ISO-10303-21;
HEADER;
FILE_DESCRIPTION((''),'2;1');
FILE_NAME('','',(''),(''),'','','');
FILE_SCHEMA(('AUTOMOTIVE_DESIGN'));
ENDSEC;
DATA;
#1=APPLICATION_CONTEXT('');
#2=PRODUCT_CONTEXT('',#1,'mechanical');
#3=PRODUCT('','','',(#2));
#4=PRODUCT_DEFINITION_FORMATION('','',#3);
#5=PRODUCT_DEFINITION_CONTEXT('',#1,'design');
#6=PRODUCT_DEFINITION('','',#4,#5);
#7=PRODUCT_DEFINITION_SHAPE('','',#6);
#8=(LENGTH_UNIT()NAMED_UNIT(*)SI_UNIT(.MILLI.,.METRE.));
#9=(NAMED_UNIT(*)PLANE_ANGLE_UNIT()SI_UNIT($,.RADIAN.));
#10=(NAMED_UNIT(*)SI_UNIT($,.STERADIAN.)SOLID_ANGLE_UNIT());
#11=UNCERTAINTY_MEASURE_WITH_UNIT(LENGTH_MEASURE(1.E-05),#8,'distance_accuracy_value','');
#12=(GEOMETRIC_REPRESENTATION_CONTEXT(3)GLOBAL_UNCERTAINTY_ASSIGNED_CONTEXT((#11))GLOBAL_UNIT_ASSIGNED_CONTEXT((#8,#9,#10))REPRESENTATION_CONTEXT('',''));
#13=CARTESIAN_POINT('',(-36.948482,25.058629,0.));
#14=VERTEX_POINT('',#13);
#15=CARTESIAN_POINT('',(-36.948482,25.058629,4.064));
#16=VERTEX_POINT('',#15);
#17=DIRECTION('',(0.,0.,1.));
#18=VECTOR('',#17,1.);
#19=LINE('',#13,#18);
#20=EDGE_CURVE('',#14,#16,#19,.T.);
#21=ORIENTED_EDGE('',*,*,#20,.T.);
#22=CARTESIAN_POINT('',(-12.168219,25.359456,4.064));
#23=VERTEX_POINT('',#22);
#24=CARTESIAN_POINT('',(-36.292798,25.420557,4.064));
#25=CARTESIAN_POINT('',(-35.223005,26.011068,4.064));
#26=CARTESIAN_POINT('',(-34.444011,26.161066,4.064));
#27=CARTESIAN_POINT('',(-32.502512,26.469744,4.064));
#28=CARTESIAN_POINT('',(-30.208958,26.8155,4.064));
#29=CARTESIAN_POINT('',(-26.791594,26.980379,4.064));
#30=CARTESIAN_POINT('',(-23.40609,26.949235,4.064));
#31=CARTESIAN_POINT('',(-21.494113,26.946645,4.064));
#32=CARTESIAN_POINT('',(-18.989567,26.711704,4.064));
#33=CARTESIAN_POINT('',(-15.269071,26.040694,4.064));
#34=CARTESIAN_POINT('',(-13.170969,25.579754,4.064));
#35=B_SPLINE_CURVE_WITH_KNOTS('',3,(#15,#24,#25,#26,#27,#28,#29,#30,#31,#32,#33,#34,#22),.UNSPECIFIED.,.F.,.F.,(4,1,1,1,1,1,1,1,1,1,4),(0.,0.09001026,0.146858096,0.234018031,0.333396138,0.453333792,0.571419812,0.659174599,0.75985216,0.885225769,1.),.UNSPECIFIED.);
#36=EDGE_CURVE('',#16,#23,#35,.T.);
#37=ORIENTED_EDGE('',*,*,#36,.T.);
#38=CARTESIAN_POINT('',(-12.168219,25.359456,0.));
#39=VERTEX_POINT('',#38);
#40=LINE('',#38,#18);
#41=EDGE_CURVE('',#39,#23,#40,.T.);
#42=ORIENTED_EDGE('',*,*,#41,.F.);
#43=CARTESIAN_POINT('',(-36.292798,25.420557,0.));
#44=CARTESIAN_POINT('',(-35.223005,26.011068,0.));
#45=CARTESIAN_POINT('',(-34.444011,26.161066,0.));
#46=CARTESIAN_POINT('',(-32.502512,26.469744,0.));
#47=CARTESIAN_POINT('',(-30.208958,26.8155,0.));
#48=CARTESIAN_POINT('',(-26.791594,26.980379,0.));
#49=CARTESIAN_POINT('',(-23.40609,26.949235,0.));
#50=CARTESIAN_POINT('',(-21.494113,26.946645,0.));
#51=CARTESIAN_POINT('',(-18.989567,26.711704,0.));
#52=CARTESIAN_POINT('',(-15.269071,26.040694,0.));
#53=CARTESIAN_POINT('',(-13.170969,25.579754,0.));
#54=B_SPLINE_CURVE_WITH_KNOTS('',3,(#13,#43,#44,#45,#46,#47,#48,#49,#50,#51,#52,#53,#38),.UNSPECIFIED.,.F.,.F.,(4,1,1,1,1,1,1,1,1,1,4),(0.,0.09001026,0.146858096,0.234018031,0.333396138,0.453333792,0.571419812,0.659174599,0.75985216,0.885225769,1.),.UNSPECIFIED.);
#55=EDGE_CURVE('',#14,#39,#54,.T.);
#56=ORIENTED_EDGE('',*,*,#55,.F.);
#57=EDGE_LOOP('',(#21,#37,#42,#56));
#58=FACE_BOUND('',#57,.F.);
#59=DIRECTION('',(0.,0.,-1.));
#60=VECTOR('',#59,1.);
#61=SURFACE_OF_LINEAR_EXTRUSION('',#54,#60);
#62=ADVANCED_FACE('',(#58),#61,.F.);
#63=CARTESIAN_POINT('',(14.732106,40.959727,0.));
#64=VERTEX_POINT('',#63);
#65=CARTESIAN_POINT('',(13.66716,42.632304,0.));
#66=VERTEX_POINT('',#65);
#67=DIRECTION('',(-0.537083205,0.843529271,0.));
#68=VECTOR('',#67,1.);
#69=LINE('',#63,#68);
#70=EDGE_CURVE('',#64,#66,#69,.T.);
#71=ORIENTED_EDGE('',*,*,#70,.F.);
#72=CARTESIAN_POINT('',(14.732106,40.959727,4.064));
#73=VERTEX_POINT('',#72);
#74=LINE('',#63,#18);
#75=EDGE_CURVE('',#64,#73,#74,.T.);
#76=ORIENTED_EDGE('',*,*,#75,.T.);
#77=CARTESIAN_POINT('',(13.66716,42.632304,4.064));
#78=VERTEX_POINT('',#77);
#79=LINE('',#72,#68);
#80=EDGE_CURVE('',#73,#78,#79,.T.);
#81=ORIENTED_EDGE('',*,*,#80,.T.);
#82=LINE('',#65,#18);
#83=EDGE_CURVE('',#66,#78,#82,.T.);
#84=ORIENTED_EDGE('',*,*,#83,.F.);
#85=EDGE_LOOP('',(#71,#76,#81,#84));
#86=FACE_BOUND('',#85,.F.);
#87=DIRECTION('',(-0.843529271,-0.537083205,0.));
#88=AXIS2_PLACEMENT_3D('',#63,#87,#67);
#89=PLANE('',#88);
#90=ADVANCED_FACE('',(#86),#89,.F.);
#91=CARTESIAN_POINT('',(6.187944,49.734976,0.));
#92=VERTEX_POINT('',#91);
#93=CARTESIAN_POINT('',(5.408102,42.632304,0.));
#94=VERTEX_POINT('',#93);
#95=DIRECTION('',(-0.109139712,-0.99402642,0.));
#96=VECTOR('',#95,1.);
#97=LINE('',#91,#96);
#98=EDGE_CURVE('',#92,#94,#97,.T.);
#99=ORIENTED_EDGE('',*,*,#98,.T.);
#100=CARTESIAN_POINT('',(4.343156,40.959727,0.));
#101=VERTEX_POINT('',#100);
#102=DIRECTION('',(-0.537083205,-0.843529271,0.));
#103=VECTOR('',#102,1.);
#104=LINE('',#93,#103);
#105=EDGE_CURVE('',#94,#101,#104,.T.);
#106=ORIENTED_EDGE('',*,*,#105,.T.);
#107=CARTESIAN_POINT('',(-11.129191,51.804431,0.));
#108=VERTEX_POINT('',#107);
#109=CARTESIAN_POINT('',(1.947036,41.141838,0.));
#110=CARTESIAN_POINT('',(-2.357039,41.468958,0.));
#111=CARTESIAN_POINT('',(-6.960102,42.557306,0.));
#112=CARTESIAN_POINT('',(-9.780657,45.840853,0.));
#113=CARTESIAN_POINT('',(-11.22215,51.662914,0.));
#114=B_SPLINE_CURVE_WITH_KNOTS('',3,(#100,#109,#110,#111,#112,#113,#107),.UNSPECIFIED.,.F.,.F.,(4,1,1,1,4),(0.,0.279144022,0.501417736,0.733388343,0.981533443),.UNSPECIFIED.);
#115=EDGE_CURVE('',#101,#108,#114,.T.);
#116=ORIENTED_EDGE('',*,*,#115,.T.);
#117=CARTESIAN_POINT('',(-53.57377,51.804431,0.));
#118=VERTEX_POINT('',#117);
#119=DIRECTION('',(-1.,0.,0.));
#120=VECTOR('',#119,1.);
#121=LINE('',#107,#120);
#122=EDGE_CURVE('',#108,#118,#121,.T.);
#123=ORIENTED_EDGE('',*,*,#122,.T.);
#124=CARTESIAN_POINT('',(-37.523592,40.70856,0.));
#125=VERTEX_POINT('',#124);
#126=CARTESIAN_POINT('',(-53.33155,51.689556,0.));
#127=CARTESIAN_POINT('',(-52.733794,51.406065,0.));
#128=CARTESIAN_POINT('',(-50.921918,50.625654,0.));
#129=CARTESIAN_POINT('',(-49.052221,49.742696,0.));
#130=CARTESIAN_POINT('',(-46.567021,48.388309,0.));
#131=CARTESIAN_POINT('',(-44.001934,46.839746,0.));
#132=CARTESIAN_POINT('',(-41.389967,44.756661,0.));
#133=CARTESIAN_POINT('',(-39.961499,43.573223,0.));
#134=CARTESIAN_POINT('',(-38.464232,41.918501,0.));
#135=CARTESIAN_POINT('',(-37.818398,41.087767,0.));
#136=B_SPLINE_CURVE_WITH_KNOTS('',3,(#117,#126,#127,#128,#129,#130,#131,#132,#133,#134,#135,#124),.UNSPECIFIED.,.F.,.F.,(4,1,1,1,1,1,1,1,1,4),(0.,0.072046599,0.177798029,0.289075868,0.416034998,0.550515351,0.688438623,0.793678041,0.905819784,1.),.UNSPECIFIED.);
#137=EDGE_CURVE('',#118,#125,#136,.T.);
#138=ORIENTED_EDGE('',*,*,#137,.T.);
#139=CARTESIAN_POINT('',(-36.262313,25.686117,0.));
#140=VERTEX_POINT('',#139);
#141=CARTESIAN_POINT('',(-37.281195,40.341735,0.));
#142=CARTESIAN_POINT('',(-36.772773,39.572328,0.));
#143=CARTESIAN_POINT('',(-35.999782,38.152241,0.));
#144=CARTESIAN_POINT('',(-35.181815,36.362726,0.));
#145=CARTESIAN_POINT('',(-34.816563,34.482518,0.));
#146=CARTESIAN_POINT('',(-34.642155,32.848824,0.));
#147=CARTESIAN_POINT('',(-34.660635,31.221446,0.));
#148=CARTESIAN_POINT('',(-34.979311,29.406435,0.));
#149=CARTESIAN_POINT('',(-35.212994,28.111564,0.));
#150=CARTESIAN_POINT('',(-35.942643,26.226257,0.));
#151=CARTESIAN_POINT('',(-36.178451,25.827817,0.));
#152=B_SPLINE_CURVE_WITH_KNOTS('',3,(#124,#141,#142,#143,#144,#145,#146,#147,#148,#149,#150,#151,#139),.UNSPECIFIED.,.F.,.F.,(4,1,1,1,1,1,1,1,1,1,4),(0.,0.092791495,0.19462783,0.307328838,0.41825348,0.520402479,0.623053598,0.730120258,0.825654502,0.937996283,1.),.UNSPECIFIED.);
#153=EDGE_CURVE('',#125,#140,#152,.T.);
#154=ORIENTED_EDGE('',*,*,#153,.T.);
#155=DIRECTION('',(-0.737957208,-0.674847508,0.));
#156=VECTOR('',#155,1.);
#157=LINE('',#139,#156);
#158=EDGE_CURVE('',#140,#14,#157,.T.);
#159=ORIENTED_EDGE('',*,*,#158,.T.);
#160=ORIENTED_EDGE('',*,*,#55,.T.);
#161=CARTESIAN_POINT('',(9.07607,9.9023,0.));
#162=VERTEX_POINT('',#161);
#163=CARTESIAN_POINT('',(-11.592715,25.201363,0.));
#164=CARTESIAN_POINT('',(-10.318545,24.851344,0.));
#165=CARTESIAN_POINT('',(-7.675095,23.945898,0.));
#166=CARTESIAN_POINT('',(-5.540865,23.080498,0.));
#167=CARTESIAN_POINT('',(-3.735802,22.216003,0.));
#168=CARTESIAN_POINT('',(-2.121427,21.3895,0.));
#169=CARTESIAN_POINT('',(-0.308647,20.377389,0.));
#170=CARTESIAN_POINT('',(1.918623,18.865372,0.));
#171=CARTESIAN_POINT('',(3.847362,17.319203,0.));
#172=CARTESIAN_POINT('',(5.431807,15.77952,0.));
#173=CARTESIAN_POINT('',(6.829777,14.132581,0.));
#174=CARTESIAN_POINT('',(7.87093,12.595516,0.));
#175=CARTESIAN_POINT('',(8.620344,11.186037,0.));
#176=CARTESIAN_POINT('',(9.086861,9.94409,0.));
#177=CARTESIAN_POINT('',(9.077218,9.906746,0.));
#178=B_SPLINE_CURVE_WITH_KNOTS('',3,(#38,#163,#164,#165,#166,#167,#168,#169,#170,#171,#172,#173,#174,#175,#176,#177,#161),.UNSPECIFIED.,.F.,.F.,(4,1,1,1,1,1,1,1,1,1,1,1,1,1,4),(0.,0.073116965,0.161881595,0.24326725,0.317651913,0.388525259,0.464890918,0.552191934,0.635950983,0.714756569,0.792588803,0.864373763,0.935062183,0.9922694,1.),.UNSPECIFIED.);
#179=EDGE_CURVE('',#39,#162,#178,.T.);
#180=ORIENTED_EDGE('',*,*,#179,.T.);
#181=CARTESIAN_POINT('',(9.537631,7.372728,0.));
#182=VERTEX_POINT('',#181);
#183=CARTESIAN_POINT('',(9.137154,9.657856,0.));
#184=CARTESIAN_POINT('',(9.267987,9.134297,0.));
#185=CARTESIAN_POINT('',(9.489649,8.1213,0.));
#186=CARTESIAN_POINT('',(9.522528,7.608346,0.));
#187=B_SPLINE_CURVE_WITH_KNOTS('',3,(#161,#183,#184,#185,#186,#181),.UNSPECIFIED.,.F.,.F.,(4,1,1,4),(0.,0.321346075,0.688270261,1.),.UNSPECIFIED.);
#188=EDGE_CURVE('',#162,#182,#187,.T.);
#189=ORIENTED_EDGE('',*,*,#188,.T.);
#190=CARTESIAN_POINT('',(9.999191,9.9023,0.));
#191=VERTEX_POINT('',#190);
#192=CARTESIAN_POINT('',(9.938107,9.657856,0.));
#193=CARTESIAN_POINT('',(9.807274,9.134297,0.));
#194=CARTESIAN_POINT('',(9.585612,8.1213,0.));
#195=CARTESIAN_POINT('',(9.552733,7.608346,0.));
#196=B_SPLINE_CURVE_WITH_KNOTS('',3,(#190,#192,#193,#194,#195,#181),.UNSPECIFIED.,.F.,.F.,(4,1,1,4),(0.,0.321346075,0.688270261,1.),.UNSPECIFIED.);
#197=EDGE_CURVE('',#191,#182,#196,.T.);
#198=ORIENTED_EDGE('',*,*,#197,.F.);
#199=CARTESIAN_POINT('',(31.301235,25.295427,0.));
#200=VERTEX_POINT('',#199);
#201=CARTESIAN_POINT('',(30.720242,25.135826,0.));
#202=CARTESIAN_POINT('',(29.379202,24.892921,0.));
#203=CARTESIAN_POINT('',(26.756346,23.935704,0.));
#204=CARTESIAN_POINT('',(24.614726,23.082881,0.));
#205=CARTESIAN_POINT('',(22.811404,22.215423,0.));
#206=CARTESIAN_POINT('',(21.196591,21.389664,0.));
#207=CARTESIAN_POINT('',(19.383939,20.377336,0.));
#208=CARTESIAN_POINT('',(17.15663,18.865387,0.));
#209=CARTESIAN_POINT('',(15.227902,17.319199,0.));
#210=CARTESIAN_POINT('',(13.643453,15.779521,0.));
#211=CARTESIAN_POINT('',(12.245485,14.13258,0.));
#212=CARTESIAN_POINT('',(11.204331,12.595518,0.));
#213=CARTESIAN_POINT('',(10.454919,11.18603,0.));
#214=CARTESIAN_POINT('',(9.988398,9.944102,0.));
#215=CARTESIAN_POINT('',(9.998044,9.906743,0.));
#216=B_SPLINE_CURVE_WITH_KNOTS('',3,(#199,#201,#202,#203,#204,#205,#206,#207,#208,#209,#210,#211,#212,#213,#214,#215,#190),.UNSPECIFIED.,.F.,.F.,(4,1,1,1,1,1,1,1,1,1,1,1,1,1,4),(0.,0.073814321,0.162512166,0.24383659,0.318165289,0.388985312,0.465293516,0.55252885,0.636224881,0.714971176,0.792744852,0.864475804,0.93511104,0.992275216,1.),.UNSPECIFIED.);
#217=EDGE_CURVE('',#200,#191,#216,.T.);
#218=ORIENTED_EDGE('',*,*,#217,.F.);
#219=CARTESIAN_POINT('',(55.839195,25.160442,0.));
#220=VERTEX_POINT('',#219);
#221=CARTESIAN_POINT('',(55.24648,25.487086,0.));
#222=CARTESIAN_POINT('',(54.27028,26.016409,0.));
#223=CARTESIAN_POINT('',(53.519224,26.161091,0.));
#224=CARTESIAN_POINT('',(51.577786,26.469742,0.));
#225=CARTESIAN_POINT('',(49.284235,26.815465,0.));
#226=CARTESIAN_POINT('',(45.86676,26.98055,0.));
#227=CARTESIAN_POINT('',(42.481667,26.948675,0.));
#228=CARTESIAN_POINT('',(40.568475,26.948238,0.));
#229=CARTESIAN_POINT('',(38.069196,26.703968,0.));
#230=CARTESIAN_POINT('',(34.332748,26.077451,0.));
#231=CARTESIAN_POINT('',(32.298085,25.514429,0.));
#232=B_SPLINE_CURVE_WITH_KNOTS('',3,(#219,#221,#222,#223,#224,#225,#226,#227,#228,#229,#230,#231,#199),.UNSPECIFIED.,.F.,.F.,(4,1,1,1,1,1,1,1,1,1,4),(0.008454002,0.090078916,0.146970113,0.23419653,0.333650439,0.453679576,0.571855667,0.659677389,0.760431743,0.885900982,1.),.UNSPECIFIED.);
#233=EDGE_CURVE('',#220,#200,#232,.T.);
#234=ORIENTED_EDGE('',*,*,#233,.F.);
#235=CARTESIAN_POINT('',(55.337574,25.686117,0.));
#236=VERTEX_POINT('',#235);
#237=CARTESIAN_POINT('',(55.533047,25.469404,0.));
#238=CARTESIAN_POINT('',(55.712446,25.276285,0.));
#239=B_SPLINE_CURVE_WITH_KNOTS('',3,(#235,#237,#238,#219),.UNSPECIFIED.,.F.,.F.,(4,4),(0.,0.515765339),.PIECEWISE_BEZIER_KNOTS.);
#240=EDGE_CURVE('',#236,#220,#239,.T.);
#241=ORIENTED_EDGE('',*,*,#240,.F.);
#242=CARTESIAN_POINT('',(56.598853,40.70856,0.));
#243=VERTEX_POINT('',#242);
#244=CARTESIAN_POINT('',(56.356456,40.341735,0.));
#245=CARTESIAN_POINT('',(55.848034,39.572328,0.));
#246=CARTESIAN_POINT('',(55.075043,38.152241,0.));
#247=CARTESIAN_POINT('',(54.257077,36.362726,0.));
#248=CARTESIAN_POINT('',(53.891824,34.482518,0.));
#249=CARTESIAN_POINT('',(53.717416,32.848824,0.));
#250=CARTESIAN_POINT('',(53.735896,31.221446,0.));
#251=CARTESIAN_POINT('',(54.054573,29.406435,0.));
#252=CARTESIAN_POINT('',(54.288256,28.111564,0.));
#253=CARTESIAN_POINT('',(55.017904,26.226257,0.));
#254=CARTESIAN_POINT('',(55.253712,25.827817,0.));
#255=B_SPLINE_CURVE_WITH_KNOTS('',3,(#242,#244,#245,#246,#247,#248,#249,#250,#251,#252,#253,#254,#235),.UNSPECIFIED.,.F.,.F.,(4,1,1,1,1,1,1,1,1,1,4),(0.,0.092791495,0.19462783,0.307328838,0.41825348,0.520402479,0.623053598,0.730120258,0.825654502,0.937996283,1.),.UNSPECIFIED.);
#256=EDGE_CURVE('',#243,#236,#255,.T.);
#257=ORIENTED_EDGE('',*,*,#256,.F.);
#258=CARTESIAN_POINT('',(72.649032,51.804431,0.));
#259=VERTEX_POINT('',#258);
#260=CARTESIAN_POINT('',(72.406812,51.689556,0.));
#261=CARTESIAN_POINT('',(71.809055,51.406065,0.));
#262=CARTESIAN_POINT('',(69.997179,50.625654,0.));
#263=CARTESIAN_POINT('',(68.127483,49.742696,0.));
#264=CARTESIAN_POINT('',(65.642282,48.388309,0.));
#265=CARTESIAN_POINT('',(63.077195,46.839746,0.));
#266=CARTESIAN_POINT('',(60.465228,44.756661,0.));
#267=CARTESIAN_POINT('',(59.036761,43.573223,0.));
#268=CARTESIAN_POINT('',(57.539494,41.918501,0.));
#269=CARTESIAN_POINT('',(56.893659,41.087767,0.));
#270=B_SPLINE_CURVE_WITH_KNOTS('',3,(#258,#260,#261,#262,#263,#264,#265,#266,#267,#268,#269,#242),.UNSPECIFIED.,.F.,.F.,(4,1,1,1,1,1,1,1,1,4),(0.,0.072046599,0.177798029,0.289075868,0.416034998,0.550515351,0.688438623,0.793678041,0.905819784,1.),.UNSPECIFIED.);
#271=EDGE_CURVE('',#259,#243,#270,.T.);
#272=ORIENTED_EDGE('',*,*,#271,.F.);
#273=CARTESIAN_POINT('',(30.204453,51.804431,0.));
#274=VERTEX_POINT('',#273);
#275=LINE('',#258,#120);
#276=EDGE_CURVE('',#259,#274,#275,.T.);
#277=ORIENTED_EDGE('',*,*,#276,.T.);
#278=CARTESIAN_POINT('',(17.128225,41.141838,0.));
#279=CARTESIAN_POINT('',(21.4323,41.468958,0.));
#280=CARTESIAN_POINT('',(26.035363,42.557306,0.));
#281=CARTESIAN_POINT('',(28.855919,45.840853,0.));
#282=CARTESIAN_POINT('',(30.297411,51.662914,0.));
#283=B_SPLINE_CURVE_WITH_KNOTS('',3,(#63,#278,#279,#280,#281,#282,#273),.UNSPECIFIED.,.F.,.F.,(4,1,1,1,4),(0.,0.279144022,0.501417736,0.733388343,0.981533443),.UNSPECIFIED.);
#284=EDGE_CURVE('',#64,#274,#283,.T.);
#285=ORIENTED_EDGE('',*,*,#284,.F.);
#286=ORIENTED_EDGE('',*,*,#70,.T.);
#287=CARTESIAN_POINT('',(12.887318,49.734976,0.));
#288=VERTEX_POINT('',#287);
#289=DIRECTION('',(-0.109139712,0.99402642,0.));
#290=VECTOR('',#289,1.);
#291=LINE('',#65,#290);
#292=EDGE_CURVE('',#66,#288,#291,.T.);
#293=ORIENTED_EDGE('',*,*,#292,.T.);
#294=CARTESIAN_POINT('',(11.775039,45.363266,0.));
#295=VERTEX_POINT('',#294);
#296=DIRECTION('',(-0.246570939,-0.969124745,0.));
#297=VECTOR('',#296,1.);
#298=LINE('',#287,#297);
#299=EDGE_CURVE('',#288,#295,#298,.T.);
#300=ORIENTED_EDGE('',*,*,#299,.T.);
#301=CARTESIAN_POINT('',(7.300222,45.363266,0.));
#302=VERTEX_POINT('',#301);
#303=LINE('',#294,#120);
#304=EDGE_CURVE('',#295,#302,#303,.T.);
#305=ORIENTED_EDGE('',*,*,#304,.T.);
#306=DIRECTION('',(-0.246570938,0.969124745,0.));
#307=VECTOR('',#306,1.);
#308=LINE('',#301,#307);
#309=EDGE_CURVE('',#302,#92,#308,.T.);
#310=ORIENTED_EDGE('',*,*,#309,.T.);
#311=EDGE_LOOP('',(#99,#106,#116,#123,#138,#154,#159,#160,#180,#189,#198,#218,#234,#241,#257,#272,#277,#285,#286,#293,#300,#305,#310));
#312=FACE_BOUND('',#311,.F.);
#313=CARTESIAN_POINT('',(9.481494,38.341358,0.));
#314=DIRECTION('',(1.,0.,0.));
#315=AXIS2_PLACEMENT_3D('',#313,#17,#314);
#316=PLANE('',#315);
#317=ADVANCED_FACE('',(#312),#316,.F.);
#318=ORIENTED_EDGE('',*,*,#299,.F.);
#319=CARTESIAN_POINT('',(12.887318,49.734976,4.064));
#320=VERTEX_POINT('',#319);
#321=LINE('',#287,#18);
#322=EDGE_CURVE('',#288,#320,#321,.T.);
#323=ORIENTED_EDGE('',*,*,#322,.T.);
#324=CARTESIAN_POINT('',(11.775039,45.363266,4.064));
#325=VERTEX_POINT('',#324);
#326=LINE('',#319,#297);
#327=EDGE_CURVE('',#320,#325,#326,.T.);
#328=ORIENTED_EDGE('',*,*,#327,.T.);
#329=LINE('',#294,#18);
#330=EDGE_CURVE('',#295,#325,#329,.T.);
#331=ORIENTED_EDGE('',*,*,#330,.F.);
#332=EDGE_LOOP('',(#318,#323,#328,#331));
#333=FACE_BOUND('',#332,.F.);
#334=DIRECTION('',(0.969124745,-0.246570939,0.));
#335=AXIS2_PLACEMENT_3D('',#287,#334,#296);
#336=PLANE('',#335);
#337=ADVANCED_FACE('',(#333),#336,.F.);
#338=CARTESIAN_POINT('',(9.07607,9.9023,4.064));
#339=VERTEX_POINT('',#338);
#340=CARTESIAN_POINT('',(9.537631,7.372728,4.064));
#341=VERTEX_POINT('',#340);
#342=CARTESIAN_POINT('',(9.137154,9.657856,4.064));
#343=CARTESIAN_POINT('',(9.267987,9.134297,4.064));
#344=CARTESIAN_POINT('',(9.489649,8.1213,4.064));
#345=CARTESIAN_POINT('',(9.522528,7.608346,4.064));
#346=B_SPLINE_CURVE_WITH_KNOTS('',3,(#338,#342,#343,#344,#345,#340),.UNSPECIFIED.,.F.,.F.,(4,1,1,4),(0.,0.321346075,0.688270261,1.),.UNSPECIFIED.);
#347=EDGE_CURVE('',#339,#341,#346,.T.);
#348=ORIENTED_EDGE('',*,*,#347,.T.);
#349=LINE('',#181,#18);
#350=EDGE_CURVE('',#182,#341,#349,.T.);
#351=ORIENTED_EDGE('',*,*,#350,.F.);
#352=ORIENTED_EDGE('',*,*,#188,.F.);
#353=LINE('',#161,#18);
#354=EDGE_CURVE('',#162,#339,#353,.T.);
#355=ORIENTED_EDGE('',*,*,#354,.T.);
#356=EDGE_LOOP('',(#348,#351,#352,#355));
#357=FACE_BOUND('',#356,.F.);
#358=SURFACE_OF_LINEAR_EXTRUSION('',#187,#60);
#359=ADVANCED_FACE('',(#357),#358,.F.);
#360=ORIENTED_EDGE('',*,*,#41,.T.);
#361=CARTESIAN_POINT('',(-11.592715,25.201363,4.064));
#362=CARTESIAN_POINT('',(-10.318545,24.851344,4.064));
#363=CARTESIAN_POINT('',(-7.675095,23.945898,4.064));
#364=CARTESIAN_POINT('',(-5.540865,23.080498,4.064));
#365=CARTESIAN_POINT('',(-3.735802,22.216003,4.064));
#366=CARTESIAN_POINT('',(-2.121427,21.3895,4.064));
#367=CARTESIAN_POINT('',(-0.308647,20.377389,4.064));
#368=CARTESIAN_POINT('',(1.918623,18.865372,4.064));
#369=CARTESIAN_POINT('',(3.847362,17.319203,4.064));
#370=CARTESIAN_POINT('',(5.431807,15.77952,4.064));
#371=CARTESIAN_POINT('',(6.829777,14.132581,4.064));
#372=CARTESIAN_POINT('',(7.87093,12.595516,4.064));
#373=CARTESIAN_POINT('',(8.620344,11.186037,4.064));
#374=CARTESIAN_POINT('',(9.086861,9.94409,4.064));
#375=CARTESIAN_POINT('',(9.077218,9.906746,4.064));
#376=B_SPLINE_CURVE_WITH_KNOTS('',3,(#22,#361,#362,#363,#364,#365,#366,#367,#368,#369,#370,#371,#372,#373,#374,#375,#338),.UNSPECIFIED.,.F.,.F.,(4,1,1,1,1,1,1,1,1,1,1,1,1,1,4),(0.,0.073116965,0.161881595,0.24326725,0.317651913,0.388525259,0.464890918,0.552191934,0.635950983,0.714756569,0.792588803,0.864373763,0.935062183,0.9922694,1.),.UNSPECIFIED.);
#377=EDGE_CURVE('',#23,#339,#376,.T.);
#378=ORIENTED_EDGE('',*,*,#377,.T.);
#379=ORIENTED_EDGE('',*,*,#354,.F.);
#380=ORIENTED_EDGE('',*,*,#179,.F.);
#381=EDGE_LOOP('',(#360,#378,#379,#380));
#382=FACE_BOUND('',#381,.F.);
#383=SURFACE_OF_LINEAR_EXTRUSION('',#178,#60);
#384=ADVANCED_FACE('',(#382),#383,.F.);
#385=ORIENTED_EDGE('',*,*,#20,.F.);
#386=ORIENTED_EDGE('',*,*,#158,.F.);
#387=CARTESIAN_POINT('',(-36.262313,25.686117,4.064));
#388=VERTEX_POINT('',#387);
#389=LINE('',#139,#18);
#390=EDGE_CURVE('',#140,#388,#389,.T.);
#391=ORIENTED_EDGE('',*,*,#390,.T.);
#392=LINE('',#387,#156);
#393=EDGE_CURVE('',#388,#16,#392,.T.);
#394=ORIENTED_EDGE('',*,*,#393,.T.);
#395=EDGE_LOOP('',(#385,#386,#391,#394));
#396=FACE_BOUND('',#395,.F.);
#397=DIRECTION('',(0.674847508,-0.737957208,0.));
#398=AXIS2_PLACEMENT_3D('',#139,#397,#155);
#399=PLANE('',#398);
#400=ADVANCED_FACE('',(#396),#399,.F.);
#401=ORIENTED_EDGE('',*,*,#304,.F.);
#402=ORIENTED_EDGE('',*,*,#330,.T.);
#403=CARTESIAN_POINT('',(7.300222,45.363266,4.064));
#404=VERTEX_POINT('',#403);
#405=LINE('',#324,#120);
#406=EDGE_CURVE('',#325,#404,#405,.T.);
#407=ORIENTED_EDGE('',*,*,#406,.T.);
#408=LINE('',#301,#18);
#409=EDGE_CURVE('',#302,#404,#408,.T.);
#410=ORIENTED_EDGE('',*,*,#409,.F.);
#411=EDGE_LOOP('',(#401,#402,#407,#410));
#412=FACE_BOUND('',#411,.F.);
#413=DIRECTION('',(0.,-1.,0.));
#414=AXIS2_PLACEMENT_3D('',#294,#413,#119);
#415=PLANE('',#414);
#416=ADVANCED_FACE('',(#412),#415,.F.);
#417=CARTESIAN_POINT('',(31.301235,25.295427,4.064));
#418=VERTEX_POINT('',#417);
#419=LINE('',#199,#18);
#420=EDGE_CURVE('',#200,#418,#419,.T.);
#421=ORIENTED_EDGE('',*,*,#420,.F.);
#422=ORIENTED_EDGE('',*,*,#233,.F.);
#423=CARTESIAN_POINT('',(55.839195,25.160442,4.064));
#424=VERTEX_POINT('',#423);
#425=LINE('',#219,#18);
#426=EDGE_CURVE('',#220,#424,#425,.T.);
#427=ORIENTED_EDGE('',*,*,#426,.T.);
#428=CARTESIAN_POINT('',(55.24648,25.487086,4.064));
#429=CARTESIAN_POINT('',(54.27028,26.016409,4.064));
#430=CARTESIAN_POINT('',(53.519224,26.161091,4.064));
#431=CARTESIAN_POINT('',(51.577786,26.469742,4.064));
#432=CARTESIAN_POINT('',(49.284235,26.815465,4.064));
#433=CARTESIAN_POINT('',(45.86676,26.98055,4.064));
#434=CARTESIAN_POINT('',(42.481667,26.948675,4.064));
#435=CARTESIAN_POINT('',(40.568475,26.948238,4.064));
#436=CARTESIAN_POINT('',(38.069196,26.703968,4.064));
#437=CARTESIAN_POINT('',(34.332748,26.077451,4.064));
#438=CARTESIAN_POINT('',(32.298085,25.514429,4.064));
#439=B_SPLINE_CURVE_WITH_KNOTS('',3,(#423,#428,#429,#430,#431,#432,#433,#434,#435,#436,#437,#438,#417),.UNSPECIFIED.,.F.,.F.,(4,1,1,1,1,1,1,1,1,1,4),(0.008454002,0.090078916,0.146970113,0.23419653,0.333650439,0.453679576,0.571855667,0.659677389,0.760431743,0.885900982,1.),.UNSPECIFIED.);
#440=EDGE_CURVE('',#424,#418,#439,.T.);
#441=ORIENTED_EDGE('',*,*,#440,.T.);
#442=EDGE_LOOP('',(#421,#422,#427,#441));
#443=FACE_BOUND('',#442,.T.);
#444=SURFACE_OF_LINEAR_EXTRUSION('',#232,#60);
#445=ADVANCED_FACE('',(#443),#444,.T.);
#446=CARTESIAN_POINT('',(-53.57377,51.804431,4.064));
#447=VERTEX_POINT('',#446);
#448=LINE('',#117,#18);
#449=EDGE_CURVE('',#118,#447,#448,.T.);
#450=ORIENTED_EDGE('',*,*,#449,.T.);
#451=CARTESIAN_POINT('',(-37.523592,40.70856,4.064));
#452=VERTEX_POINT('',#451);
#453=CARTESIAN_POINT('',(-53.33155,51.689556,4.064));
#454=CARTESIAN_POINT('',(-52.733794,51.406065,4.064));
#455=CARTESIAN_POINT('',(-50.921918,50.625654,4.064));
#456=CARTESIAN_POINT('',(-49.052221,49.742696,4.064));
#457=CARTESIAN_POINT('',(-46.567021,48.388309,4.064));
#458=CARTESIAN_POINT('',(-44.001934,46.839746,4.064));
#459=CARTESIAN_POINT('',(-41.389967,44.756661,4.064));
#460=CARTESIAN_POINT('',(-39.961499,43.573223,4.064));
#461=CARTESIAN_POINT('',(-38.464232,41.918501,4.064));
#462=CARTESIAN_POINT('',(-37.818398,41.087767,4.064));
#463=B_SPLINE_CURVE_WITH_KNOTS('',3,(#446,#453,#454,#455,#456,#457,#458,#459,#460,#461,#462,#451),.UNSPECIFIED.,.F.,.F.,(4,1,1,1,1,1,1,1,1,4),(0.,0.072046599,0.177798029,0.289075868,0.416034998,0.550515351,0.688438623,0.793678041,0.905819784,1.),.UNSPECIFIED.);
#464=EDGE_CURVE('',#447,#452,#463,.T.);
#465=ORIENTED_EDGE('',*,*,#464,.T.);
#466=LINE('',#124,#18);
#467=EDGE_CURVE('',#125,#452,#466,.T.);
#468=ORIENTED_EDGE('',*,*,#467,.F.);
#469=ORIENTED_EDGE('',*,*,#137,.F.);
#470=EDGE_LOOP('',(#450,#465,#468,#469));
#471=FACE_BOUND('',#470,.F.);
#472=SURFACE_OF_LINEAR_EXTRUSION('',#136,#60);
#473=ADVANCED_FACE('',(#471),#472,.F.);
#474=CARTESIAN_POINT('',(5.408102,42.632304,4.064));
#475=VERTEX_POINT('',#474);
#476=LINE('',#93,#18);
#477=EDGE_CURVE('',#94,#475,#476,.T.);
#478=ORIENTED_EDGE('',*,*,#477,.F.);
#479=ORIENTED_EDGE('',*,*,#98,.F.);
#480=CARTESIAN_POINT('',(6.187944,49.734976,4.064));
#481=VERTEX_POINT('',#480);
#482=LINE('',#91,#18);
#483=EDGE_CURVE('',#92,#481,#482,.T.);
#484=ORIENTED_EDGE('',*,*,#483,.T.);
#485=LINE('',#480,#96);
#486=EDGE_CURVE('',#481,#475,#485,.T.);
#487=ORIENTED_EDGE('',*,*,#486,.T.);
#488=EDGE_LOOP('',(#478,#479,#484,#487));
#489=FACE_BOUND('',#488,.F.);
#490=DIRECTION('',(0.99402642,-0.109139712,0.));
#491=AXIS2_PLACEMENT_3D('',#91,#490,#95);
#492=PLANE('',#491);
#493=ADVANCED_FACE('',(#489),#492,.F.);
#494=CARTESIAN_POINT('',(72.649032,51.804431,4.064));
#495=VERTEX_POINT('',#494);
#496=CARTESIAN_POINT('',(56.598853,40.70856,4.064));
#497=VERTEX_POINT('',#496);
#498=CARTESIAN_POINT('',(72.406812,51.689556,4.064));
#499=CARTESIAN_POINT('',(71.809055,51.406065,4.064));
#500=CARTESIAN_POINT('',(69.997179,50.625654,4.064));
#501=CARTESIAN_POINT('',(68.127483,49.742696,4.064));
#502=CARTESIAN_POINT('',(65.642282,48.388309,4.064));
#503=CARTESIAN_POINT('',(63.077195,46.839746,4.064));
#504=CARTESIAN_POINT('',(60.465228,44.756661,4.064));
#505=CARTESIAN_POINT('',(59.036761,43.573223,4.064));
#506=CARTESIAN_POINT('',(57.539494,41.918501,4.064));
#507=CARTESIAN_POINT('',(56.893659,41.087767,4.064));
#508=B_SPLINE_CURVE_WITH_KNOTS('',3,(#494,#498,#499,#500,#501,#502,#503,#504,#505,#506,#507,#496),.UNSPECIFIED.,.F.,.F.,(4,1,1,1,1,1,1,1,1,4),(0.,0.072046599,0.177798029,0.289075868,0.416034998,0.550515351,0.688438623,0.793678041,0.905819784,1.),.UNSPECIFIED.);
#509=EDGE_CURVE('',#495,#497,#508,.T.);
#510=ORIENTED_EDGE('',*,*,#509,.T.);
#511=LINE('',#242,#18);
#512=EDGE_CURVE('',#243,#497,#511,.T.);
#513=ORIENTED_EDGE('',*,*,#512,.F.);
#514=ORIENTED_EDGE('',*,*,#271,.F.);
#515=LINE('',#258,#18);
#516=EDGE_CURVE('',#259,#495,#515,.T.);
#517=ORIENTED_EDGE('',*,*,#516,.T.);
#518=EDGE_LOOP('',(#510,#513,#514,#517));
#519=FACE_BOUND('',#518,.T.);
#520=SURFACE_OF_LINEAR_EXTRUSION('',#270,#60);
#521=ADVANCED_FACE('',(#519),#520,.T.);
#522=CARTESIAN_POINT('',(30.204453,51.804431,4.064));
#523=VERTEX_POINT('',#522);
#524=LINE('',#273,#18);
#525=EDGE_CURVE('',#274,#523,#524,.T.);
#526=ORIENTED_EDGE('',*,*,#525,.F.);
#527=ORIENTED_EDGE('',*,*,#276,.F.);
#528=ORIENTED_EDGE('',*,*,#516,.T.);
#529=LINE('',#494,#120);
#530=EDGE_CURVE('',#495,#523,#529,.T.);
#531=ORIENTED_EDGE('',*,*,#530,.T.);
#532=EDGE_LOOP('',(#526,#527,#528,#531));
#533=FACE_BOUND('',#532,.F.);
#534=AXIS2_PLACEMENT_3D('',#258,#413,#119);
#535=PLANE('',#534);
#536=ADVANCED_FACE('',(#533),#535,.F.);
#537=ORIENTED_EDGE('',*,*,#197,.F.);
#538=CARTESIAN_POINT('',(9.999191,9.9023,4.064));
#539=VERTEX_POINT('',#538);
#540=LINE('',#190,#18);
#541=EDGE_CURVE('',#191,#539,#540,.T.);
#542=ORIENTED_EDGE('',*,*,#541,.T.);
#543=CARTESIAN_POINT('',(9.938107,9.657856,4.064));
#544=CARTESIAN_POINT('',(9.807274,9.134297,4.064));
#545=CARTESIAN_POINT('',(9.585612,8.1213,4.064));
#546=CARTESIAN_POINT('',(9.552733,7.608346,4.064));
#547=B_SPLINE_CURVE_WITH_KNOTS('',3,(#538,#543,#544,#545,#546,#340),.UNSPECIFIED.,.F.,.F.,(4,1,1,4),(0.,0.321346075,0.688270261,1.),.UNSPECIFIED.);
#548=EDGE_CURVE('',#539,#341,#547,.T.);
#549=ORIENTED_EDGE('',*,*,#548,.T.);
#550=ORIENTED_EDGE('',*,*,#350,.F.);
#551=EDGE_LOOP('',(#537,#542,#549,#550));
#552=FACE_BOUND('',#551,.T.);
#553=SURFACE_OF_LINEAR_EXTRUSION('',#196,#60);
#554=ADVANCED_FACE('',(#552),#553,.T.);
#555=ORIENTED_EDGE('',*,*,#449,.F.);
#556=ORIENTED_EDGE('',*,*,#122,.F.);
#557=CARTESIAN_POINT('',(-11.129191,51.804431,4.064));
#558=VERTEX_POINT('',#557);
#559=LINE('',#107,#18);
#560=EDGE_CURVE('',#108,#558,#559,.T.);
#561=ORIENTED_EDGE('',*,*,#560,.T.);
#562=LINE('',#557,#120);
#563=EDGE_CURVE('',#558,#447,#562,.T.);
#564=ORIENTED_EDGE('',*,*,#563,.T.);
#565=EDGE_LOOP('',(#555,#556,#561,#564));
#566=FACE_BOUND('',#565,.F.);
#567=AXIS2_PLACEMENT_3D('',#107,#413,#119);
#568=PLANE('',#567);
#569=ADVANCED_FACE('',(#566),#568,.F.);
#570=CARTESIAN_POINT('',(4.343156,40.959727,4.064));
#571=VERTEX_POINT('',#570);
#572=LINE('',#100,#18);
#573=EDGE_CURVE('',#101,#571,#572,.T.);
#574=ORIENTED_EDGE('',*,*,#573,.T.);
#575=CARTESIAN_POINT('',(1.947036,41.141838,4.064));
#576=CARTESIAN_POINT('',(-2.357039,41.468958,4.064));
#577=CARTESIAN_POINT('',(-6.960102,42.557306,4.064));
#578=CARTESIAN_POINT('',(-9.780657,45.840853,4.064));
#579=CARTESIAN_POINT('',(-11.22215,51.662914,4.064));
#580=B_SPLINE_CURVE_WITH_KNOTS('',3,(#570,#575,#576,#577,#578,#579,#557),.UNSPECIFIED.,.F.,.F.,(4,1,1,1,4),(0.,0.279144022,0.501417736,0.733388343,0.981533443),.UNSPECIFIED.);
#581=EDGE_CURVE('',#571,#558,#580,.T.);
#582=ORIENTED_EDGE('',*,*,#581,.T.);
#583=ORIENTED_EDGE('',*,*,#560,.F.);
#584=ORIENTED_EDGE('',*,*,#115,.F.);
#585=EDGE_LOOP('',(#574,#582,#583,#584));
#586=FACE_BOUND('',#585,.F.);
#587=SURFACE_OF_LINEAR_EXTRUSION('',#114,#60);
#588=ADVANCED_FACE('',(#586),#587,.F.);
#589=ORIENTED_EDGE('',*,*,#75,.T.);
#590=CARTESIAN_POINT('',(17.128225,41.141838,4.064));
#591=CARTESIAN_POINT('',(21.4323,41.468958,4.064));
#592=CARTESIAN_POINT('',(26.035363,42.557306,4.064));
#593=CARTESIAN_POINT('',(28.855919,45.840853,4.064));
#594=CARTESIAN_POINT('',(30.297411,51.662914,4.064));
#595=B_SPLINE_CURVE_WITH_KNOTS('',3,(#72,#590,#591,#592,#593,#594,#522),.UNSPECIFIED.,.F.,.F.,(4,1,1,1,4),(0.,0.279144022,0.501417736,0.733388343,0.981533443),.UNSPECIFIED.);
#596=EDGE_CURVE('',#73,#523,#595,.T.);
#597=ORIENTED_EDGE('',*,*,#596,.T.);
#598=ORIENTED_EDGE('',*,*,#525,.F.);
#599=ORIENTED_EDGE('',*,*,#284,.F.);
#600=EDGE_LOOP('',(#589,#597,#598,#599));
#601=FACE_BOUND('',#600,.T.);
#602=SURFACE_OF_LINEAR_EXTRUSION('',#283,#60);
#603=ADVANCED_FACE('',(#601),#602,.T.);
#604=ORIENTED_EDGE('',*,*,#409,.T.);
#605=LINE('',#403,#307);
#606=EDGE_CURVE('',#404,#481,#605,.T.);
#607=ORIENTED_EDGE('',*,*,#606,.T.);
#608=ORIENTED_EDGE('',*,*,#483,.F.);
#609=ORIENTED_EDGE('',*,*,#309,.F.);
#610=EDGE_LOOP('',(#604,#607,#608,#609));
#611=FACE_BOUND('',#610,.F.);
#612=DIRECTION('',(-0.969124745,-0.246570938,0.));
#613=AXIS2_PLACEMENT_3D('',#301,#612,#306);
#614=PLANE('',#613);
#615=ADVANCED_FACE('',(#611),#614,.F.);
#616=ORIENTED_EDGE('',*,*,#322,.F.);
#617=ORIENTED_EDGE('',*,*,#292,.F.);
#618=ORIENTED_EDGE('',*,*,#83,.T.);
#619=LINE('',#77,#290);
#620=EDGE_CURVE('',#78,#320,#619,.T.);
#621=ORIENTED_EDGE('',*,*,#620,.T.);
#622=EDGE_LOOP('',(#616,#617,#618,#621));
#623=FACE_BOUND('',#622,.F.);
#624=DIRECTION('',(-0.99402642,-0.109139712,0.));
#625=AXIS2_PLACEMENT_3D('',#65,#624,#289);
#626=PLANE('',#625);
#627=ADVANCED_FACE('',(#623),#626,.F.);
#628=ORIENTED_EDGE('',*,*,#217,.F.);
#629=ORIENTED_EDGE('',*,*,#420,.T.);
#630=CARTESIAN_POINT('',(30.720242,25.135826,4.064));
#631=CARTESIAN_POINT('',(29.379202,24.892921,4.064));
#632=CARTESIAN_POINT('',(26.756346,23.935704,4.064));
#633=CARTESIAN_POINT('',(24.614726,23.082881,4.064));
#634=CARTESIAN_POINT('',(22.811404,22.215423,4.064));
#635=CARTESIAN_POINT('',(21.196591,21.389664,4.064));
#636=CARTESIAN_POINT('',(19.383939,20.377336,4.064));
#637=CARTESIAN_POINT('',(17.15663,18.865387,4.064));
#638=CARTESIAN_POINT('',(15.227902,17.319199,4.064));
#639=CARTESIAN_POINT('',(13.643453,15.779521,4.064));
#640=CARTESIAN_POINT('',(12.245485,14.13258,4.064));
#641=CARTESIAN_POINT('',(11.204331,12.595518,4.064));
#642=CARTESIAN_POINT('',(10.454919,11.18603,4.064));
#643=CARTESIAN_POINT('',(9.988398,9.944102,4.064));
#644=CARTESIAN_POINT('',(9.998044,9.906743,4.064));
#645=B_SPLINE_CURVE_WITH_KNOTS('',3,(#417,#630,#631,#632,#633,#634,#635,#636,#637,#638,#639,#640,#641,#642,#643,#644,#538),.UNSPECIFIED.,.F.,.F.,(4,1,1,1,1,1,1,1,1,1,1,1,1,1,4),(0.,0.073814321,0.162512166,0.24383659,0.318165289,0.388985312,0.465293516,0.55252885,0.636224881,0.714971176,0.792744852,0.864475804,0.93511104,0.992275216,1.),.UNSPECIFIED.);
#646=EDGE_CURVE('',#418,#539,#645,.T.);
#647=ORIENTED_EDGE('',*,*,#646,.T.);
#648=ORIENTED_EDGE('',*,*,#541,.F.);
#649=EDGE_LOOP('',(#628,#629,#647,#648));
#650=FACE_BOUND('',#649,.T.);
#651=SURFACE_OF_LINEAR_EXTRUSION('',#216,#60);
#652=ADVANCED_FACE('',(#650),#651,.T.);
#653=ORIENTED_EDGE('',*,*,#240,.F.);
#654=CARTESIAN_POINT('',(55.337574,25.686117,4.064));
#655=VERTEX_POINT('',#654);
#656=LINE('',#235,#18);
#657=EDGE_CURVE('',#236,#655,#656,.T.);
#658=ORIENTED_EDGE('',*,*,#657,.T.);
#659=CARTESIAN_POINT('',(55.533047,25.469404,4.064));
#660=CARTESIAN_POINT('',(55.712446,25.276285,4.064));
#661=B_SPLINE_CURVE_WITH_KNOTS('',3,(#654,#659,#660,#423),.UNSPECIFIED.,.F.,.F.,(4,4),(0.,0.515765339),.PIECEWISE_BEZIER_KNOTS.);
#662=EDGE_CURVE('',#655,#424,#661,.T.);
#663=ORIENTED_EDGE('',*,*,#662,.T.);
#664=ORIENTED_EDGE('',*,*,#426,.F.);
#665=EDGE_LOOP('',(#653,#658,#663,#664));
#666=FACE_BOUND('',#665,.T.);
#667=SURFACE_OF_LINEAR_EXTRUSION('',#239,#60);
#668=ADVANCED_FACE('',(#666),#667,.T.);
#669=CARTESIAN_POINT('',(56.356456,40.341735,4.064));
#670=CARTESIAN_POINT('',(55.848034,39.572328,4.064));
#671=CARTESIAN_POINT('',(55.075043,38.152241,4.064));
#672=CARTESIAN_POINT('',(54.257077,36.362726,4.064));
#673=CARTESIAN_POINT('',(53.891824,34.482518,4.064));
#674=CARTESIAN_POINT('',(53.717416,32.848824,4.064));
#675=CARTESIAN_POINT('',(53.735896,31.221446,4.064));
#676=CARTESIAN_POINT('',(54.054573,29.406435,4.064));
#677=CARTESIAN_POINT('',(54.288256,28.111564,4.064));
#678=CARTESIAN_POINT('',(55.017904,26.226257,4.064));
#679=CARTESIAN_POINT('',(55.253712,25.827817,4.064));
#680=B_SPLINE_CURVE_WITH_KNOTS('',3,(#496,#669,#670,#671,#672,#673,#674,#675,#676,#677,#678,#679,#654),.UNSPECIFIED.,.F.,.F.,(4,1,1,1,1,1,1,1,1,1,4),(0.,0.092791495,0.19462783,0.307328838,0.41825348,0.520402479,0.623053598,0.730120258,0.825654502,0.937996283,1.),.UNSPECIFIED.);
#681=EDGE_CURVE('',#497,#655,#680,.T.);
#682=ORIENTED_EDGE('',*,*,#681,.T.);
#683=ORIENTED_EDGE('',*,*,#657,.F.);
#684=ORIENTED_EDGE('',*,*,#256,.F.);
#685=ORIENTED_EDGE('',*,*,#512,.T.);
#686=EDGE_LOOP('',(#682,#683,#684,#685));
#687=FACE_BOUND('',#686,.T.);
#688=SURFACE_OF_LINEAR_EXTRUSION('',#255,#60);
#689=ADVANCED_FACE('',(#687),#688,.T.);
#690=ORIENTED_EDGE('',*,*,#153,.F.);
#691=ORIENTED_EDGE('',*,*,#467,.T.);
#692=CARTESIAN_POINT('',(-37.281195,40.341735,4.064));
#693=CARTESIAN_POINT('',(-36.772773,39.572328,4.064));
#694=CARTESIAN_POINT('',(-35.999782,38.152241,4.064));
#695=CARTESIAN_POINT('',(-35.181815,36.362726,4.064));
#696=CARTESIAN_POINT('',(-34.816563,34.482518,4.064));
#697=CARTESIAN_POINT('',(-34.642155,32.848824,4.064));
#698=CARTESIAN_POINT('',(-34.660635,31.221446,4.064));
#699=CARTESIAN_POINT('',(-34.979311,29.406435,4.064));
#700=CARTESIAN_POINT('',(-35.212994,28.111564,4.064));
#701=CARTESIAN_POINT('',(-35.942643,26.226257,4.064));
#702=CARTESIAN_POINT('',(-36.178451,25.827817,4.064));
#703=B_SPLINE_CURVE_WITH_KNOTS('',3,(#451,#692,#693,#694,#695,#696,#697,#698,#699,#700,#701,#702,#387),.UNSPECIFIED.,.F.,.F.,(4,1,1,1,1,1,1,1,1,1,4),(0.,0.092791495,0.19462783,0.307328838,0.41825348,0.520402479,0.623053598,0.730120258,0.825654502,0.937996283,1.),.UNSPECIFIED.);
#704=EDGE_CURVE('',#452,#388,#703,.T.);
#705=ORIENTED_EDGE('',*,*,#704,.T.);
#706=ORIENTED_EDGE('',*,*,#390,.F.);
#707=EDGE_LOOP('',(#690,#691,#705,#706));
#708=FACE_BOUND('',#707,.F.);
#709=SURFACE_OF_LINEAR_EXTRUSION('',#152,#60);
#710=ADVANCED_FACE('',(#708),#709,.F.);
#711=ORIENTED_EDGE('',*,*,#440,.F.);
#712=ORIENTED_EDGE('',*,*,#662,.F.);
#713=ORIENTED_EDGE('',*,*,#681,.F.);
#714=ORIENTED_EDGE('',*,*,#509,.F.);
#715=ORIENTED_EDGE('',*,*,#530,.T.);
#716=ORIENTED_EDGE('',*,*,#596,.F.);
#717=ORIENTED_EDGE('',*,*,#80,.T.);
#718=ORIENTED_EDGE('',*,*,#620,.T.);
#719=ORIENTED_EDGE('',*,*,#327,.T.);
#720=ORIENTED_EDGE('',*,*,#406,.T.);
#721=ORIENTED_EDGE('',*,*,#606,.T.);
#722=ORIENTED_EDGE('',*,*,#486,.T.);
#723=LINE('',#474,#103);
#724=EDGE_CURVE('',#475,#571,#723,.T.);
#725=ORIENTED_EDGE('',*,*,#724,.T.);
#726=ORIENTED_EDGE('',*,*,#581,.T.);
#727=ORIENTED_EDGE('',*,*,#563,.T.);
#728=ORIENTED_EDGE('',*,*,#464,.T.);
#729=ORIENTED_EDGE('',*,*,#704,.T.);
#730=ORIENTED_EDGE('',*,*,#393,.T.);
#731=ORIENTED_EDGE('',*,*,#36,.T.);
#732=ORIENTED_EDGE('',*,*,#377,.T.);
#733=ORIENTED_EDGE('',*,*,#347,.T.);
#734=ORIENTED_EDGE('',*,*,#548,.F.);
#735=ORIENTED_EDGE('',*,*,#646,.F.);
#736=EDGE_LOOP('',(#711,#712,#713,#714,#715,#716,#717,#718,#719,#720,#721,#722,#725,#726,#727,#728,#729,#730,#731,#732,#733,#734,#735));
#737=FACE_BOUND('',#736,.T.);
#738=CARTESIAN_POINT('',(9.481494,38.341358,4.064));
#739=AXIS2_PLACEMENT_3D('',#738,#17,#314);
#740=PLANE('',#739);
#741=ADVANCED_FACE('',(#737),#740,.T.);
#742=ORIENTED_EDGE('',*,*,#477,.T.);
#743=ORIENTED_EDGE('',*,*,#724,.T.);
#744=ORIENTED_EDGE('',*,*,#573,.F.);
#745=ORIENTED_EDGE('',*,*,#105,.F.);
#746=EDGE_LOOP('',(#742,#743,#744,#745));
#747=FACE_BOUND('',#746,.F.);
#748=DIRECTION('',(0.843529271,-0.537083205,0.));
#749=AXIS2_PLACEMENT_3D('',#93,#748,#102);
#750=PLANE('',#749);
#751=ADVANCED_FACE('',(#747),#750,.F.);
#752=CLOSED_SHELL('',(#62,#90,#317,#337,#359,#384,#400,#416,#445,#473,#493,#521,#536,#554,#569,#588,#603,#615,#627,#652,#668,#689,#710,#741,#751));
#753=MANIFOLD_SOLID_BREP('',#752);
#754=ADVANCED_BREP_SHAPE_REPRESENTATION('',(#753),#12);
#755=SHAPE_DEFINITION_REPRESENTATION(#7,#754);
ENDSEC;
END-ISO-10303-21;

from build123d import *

# Parameters (mm, degrees)
F1_DEPTH = 4.064


with BuildPart() as f1:
    # F0 (on Top) → F1 (new body)
    with BuildSketch(Plane.XY):
        with BuildLine():
            Line((13.6671597138, 42.632304132), (12.8873176873, 49.7349761426))
            Line((12.8873176873, 49.7349761426), (11.7750391364, 45.363266021))
            Line((11.7750391364, 45.363266021), (9.6299545839, 45.363266021))
            Line((9.6299545839, 45.363266021), (9.5376307145, 45.363266021))
            Line((9.5376307145, 45.363266021), (9.445306845, 45.363266021))
            Line((9.445306845, 45.363266021), (7.3002222925, 45.363266021))
            Line((7.3002222925, 45.363266021), (6.1879437417, 49.7349761426))
            Line((6.1879437417, 49.7349761426), (5.4081017151, 42.632304132))
            Line((5.4081017151, 42.632304132), (4.3431557715, 40.9597270191))
            add(Edge.make_bspline(
                [(4.3431557715, 40.9597270191), (1.9470362998, 41.1418379201), (-2.357038673, 41.4689580744), (-6.9601017508, 42.5573058945), (-9.7806573386, 45.8408531237), (-11.222149647, 51.6629143973), (-11.1291911453, 51.8044307828)],
                knots=[0, 0, 0, 0, 0.2791440222, 0.5014177355, 0.7333883427, 0.9815334433, 0.9815334433, 0.9815334433, 0.9815334433], degree=3))
            Line((-11.1291911453, 51.8044307828), (-53.5737704486, 51.8044307828))
            add(Edge.make_bspline(
                [(-53.5737704486, 51.8044307828), (-53.331550141, 51.6895557808), (-52.7337940502, 51.4060649668), (-50.9219179894, 50.6256536216), (-49.0522210727, 49.7426960013), (-46.5670205655, 48.3883088566), (-44.0019337549, 46.8397463887), (-41.3899670191, 44.7566613363), (-39.9614993816, 43.5732234586), (-38.4642324185, 41.9185011416), (-37.8183975035, 41.0877673058), (-37.5235918909, 40.7085604966)],
                knots=[0, 0, 0, 0, 0.0720465987, 0.1777980287, 0.2890758676, 0.4160349982, 0.5505153507, 0.6884386234, 0.7936780409, 0.9058197844, 1, 1, 1, 1], degree=3))
            add(Edge.make_bspline(
                [(-37.5235918909, 40.7085604966), (-37.2811948097, 40.3417350246), (-36.7727730223, 39.572327814), (-35.9997815422, 38.1522405248), (-35.1818151491, 36.362725978), (-34.8165629489, 34.4825183921), (-34.6421546924, 32.8488236867), (-34.6606346519, 31.2214463286), (-34.9793113173, 29.4064345295), (-35.2129943023, 28.111564098), (-35.9426425608, 26.2262566595), (-36.1784507702, 25.8278168456), (-36.262312904, 25.6861168891)],
                knots=[0, 0, 0, 0, 0.0927914954, 0.1946278301, 0.3073288384, 0.4182534795, 0.520402479, 0.6230535978, 0.7301202583, 0.8256545016, 0.9379962828, 1, 1, 1, 1], degree=3))
            Line((-36.262312904, 25.6861168891), (-36.9484815747, 25.0586289912))
            add(Edge.make_bspline(
                [(-36.9484815747, 25.0586289912), (-36.2927983345, 25.4205569717), (-35.2230048161, 26.0110680355), (-34.4440105433, 26.1610657915), (-32.5025116368, 26.4697436316), (-30.2089582356, 26.8154999431), (-26.7915939584, 26.9803785335), (-23.4060896846, 26.9492345331), (-21.4941127934, 26.9466449845), (-18.9895672442, 26.7117037325), (-15.2690707432, 26.0406941434), (-13.1709685572, 25.5797541049), (-12.168219313, 25.3594563147)],
                knots=[0, 0, 0, 0, 0.0900102597, 0.1468580962, 0.2340180307, 0.333396138, 0.4533337916, 0.5714198117, 0.6591745985, 0.7598521597, 0.8852257688, 1, 1, 1, 1], degree=3))
            add(Edge.make_bspline(
                [(-12.168219313, 25.3594563147), (-11.5927154739, 25.2013632729), (-10.3185449844, 24.8513439076), (-7.6750947876, 23.9458975941), (-5.5408645813, 23.0804982874), (-3.7358019992, 22.2160027355), (-2.121426525, 21.3894995265), (-0.3086467266, 20.3773885972), (1.9186226291, 18.8653724774), (3.8473616626, 17.3192025529), (5.4318073678, 15.7795195321), (6.8297771435, 14.132580906), (7.8709295154, 12.5955164802), (8.6203443926, 11.1860368327), (9.0868606877, 9.9440901455), (9.0772179693, 9.9067459923), (9.0760700405, 9.9023003131)],
                knots=[0, 0, 0, 0, 0.073116965, 0.1618815945, 0.2432672502, 0.3176519131, 0.3885252589, 0.4648909183, 0.5521919339, 0.6359509825, 0.7147565687, 0.7925888029, 0.8643737633, 0.9350621826, 0.9922694003, 1, 1, 1, 1], degree=3))
            add(Edge.make_bspline(
                [(9.0760700405, 9.9023003131), (9.137154494, 9.657856123), (9.2679873126, 9.1342970084), (9.4896489626, 8.1212998598), (9.5225281441, 7.6083459483), (9.5376307145, 7.3727280833)],
                knots=[0, 0, 0, 0, 0.3213460752, 0.6882702612, 1, 1, 1, 1], degree=3))
            add(Edge.make_bspline(
                [(9.9991913885, 9.9023003131), (9.938106935, 9.657856123), (9.8072741164, 9.1342970084), (9.5856124664, 8.1212998598), (9.5527332849, 7.6083459483), (9.5376307145, 7.3727280833)],
                knots=[0, 0, 0, 0, 0.3213460752, 0.6882702612, 1, 1, 1, 1], degree=3))
            add(Edge.make_bspline(
                [(31.3012346565, 25.2954269687), (30.7202419304, 25.1358261093), (29.379202367, 24.8929209133), (26.7563461994, 23.9357044231), (24.6147259112, 23.08288084), (22.8114042768, 22.2154227122), (21.1965911316, 21.3896642896), (19.3839392402, 20.3773356985), (17.1566303783, 18.8653868158), (15.2279018497, 17.3191989823), (13.6434534859, 15.779520599), (12.2454845603, 14.1325801248), (11.2043313904, 12.5955184335), (10.4549187001, 11.1860304057), (9.9883976023, 9.9441023012), (9.9980443233, 9.9067426475), (9.9991913885, 9.9023003131)],
                knots=[0, 0, 0, 0, 0.0738143205, 0.1625121665, 0.2438365904, 0.3181652888, 0.3889853118, 0.4652935163, 0.5525288496, 0.6362248807, 0.7149711762, 0.7927448521, 0.8644758039, 0.9351110396, 0.9922752165, 1, 1, 1, 1], degree=3))
            add(Edge.make_bspline(
                [(55.8391954986, 25.1604420744), (55.246479862, 25.4870860225), (54.2702798275, 26.0164091642), (53.5192238195, 26.1610914996), (51.5777860665, 26.4697420881), (49.2842349376, 26.8154654043), (45.8667598685, 26.9805498729), (42.4816667945, 26.9486749581), (40.5684752021, 26.9482375341), (38.0691959493, 26.7039679144), (34.3327479962, 26.0774511266), (32.2980847571, 25.5144287536), (31.3012346565, 25.2954269687)],
                knots=[0.008454002, 0.008454002, 0.008454002, 0.008454002, 0.0900789157, 0.1469701134, 0.23419653, 0.3336504387, 0.4536795757, 0.5718556669, 0.6596773895, 0.7604317432, 0.8859009821, 1, 1, 1, 1], degree=3))
            add(Edge.make_bspline(
                [(55.337574333, 25.6861168891), (55.5330474391, 25.4694040439), (55.7124456782, 25.2762853184), (55.8391954986, 25.1604420744)],
                knots=[0, 0, 0, 0, 0.5157653391, 0.5157653391, 0.5157653391, 0.5157653391], degree=3))
            add(Edge.make_bspline(
                [(56.5988533199, 40.7085604966), (56.3564562387, 40.3417350246), (55.8480344512, 39.572327814), (55.0750429712, 38.1522405248), (54.257076578, 36.362725978), (53.8918243778, 34.4825183921), (53.7174161213, 32.8488236867), (53.7358960808, 31.2214463286), (54.0545727462, 29.4064345295), (54.2882557312, 28.111564098), (55.0179039898, 26.2262566595), (55.2537121991, 25.8278168456), (55.337574333, 25.6861168891)],
                knots=[0, 0, 0, 0, 0.0927914954, 0.1946278301, 0.3073288384, 0.4182534795, 0.520402479, 0.6230535978, 0.7301202583, 0.8256545016, 0.9379962828, 1, 1, 1, 1], degree=3))
            add(Edge.make_bspline(
                [(72.6490318775, 51.8044307828), (72.4068115699, 51.6895557808), (71.8090554792, 51.4060649668), (69.9971794183, 50.6256536216), (68.1274825017, 49.7426960013), (65.6422819945, 48.3883088566), (63.0771951838, 46.8397463887), (60.4652284481, 44.7566613363), (59.0367608106, 43.5732234586), (57.5394938475, 41.9185011416), (56.8936589325, 41.0877673058), (56.5988533199, 40.7085604966)],
                knots=[0, 0, 0, 0, 0.0720465987, 0.1777980287, 0.2890758676, 0.4160349982, 0.5505153507, 0.6884386234, 0.7936780409, 0.9058197844, 1, 1, 1, 1], degree=3))
            Line((72.6490318775, 51.8044307828), (30.2044525743, 51.8044307828))
            add(Edge.make_bspline(
                [(14.7321056575, 40.9597270191), (17.1282251292, 41.1418379201), (21.4323001019, 41.4689580744), (26.0353631797, 42.5573058945), (28.8559187675, 45.8408531237), (30.2974110759, 51.6629143973), (30.2044525743, 51.8044307828)],
                knots=[0, 0, 0, 0, 0.2791440222, 0.5014177355, 0.7333883427, 0.9815334433, 0.9815334433, 0.9815334433, 0.9815334433], degree=3))
            Line((14.7321056575, 40.9597270191), (13.6671597138, 42.632304132))
        make_face()
    extrude(amount=F1_DEPTH)


solid = f1.part
